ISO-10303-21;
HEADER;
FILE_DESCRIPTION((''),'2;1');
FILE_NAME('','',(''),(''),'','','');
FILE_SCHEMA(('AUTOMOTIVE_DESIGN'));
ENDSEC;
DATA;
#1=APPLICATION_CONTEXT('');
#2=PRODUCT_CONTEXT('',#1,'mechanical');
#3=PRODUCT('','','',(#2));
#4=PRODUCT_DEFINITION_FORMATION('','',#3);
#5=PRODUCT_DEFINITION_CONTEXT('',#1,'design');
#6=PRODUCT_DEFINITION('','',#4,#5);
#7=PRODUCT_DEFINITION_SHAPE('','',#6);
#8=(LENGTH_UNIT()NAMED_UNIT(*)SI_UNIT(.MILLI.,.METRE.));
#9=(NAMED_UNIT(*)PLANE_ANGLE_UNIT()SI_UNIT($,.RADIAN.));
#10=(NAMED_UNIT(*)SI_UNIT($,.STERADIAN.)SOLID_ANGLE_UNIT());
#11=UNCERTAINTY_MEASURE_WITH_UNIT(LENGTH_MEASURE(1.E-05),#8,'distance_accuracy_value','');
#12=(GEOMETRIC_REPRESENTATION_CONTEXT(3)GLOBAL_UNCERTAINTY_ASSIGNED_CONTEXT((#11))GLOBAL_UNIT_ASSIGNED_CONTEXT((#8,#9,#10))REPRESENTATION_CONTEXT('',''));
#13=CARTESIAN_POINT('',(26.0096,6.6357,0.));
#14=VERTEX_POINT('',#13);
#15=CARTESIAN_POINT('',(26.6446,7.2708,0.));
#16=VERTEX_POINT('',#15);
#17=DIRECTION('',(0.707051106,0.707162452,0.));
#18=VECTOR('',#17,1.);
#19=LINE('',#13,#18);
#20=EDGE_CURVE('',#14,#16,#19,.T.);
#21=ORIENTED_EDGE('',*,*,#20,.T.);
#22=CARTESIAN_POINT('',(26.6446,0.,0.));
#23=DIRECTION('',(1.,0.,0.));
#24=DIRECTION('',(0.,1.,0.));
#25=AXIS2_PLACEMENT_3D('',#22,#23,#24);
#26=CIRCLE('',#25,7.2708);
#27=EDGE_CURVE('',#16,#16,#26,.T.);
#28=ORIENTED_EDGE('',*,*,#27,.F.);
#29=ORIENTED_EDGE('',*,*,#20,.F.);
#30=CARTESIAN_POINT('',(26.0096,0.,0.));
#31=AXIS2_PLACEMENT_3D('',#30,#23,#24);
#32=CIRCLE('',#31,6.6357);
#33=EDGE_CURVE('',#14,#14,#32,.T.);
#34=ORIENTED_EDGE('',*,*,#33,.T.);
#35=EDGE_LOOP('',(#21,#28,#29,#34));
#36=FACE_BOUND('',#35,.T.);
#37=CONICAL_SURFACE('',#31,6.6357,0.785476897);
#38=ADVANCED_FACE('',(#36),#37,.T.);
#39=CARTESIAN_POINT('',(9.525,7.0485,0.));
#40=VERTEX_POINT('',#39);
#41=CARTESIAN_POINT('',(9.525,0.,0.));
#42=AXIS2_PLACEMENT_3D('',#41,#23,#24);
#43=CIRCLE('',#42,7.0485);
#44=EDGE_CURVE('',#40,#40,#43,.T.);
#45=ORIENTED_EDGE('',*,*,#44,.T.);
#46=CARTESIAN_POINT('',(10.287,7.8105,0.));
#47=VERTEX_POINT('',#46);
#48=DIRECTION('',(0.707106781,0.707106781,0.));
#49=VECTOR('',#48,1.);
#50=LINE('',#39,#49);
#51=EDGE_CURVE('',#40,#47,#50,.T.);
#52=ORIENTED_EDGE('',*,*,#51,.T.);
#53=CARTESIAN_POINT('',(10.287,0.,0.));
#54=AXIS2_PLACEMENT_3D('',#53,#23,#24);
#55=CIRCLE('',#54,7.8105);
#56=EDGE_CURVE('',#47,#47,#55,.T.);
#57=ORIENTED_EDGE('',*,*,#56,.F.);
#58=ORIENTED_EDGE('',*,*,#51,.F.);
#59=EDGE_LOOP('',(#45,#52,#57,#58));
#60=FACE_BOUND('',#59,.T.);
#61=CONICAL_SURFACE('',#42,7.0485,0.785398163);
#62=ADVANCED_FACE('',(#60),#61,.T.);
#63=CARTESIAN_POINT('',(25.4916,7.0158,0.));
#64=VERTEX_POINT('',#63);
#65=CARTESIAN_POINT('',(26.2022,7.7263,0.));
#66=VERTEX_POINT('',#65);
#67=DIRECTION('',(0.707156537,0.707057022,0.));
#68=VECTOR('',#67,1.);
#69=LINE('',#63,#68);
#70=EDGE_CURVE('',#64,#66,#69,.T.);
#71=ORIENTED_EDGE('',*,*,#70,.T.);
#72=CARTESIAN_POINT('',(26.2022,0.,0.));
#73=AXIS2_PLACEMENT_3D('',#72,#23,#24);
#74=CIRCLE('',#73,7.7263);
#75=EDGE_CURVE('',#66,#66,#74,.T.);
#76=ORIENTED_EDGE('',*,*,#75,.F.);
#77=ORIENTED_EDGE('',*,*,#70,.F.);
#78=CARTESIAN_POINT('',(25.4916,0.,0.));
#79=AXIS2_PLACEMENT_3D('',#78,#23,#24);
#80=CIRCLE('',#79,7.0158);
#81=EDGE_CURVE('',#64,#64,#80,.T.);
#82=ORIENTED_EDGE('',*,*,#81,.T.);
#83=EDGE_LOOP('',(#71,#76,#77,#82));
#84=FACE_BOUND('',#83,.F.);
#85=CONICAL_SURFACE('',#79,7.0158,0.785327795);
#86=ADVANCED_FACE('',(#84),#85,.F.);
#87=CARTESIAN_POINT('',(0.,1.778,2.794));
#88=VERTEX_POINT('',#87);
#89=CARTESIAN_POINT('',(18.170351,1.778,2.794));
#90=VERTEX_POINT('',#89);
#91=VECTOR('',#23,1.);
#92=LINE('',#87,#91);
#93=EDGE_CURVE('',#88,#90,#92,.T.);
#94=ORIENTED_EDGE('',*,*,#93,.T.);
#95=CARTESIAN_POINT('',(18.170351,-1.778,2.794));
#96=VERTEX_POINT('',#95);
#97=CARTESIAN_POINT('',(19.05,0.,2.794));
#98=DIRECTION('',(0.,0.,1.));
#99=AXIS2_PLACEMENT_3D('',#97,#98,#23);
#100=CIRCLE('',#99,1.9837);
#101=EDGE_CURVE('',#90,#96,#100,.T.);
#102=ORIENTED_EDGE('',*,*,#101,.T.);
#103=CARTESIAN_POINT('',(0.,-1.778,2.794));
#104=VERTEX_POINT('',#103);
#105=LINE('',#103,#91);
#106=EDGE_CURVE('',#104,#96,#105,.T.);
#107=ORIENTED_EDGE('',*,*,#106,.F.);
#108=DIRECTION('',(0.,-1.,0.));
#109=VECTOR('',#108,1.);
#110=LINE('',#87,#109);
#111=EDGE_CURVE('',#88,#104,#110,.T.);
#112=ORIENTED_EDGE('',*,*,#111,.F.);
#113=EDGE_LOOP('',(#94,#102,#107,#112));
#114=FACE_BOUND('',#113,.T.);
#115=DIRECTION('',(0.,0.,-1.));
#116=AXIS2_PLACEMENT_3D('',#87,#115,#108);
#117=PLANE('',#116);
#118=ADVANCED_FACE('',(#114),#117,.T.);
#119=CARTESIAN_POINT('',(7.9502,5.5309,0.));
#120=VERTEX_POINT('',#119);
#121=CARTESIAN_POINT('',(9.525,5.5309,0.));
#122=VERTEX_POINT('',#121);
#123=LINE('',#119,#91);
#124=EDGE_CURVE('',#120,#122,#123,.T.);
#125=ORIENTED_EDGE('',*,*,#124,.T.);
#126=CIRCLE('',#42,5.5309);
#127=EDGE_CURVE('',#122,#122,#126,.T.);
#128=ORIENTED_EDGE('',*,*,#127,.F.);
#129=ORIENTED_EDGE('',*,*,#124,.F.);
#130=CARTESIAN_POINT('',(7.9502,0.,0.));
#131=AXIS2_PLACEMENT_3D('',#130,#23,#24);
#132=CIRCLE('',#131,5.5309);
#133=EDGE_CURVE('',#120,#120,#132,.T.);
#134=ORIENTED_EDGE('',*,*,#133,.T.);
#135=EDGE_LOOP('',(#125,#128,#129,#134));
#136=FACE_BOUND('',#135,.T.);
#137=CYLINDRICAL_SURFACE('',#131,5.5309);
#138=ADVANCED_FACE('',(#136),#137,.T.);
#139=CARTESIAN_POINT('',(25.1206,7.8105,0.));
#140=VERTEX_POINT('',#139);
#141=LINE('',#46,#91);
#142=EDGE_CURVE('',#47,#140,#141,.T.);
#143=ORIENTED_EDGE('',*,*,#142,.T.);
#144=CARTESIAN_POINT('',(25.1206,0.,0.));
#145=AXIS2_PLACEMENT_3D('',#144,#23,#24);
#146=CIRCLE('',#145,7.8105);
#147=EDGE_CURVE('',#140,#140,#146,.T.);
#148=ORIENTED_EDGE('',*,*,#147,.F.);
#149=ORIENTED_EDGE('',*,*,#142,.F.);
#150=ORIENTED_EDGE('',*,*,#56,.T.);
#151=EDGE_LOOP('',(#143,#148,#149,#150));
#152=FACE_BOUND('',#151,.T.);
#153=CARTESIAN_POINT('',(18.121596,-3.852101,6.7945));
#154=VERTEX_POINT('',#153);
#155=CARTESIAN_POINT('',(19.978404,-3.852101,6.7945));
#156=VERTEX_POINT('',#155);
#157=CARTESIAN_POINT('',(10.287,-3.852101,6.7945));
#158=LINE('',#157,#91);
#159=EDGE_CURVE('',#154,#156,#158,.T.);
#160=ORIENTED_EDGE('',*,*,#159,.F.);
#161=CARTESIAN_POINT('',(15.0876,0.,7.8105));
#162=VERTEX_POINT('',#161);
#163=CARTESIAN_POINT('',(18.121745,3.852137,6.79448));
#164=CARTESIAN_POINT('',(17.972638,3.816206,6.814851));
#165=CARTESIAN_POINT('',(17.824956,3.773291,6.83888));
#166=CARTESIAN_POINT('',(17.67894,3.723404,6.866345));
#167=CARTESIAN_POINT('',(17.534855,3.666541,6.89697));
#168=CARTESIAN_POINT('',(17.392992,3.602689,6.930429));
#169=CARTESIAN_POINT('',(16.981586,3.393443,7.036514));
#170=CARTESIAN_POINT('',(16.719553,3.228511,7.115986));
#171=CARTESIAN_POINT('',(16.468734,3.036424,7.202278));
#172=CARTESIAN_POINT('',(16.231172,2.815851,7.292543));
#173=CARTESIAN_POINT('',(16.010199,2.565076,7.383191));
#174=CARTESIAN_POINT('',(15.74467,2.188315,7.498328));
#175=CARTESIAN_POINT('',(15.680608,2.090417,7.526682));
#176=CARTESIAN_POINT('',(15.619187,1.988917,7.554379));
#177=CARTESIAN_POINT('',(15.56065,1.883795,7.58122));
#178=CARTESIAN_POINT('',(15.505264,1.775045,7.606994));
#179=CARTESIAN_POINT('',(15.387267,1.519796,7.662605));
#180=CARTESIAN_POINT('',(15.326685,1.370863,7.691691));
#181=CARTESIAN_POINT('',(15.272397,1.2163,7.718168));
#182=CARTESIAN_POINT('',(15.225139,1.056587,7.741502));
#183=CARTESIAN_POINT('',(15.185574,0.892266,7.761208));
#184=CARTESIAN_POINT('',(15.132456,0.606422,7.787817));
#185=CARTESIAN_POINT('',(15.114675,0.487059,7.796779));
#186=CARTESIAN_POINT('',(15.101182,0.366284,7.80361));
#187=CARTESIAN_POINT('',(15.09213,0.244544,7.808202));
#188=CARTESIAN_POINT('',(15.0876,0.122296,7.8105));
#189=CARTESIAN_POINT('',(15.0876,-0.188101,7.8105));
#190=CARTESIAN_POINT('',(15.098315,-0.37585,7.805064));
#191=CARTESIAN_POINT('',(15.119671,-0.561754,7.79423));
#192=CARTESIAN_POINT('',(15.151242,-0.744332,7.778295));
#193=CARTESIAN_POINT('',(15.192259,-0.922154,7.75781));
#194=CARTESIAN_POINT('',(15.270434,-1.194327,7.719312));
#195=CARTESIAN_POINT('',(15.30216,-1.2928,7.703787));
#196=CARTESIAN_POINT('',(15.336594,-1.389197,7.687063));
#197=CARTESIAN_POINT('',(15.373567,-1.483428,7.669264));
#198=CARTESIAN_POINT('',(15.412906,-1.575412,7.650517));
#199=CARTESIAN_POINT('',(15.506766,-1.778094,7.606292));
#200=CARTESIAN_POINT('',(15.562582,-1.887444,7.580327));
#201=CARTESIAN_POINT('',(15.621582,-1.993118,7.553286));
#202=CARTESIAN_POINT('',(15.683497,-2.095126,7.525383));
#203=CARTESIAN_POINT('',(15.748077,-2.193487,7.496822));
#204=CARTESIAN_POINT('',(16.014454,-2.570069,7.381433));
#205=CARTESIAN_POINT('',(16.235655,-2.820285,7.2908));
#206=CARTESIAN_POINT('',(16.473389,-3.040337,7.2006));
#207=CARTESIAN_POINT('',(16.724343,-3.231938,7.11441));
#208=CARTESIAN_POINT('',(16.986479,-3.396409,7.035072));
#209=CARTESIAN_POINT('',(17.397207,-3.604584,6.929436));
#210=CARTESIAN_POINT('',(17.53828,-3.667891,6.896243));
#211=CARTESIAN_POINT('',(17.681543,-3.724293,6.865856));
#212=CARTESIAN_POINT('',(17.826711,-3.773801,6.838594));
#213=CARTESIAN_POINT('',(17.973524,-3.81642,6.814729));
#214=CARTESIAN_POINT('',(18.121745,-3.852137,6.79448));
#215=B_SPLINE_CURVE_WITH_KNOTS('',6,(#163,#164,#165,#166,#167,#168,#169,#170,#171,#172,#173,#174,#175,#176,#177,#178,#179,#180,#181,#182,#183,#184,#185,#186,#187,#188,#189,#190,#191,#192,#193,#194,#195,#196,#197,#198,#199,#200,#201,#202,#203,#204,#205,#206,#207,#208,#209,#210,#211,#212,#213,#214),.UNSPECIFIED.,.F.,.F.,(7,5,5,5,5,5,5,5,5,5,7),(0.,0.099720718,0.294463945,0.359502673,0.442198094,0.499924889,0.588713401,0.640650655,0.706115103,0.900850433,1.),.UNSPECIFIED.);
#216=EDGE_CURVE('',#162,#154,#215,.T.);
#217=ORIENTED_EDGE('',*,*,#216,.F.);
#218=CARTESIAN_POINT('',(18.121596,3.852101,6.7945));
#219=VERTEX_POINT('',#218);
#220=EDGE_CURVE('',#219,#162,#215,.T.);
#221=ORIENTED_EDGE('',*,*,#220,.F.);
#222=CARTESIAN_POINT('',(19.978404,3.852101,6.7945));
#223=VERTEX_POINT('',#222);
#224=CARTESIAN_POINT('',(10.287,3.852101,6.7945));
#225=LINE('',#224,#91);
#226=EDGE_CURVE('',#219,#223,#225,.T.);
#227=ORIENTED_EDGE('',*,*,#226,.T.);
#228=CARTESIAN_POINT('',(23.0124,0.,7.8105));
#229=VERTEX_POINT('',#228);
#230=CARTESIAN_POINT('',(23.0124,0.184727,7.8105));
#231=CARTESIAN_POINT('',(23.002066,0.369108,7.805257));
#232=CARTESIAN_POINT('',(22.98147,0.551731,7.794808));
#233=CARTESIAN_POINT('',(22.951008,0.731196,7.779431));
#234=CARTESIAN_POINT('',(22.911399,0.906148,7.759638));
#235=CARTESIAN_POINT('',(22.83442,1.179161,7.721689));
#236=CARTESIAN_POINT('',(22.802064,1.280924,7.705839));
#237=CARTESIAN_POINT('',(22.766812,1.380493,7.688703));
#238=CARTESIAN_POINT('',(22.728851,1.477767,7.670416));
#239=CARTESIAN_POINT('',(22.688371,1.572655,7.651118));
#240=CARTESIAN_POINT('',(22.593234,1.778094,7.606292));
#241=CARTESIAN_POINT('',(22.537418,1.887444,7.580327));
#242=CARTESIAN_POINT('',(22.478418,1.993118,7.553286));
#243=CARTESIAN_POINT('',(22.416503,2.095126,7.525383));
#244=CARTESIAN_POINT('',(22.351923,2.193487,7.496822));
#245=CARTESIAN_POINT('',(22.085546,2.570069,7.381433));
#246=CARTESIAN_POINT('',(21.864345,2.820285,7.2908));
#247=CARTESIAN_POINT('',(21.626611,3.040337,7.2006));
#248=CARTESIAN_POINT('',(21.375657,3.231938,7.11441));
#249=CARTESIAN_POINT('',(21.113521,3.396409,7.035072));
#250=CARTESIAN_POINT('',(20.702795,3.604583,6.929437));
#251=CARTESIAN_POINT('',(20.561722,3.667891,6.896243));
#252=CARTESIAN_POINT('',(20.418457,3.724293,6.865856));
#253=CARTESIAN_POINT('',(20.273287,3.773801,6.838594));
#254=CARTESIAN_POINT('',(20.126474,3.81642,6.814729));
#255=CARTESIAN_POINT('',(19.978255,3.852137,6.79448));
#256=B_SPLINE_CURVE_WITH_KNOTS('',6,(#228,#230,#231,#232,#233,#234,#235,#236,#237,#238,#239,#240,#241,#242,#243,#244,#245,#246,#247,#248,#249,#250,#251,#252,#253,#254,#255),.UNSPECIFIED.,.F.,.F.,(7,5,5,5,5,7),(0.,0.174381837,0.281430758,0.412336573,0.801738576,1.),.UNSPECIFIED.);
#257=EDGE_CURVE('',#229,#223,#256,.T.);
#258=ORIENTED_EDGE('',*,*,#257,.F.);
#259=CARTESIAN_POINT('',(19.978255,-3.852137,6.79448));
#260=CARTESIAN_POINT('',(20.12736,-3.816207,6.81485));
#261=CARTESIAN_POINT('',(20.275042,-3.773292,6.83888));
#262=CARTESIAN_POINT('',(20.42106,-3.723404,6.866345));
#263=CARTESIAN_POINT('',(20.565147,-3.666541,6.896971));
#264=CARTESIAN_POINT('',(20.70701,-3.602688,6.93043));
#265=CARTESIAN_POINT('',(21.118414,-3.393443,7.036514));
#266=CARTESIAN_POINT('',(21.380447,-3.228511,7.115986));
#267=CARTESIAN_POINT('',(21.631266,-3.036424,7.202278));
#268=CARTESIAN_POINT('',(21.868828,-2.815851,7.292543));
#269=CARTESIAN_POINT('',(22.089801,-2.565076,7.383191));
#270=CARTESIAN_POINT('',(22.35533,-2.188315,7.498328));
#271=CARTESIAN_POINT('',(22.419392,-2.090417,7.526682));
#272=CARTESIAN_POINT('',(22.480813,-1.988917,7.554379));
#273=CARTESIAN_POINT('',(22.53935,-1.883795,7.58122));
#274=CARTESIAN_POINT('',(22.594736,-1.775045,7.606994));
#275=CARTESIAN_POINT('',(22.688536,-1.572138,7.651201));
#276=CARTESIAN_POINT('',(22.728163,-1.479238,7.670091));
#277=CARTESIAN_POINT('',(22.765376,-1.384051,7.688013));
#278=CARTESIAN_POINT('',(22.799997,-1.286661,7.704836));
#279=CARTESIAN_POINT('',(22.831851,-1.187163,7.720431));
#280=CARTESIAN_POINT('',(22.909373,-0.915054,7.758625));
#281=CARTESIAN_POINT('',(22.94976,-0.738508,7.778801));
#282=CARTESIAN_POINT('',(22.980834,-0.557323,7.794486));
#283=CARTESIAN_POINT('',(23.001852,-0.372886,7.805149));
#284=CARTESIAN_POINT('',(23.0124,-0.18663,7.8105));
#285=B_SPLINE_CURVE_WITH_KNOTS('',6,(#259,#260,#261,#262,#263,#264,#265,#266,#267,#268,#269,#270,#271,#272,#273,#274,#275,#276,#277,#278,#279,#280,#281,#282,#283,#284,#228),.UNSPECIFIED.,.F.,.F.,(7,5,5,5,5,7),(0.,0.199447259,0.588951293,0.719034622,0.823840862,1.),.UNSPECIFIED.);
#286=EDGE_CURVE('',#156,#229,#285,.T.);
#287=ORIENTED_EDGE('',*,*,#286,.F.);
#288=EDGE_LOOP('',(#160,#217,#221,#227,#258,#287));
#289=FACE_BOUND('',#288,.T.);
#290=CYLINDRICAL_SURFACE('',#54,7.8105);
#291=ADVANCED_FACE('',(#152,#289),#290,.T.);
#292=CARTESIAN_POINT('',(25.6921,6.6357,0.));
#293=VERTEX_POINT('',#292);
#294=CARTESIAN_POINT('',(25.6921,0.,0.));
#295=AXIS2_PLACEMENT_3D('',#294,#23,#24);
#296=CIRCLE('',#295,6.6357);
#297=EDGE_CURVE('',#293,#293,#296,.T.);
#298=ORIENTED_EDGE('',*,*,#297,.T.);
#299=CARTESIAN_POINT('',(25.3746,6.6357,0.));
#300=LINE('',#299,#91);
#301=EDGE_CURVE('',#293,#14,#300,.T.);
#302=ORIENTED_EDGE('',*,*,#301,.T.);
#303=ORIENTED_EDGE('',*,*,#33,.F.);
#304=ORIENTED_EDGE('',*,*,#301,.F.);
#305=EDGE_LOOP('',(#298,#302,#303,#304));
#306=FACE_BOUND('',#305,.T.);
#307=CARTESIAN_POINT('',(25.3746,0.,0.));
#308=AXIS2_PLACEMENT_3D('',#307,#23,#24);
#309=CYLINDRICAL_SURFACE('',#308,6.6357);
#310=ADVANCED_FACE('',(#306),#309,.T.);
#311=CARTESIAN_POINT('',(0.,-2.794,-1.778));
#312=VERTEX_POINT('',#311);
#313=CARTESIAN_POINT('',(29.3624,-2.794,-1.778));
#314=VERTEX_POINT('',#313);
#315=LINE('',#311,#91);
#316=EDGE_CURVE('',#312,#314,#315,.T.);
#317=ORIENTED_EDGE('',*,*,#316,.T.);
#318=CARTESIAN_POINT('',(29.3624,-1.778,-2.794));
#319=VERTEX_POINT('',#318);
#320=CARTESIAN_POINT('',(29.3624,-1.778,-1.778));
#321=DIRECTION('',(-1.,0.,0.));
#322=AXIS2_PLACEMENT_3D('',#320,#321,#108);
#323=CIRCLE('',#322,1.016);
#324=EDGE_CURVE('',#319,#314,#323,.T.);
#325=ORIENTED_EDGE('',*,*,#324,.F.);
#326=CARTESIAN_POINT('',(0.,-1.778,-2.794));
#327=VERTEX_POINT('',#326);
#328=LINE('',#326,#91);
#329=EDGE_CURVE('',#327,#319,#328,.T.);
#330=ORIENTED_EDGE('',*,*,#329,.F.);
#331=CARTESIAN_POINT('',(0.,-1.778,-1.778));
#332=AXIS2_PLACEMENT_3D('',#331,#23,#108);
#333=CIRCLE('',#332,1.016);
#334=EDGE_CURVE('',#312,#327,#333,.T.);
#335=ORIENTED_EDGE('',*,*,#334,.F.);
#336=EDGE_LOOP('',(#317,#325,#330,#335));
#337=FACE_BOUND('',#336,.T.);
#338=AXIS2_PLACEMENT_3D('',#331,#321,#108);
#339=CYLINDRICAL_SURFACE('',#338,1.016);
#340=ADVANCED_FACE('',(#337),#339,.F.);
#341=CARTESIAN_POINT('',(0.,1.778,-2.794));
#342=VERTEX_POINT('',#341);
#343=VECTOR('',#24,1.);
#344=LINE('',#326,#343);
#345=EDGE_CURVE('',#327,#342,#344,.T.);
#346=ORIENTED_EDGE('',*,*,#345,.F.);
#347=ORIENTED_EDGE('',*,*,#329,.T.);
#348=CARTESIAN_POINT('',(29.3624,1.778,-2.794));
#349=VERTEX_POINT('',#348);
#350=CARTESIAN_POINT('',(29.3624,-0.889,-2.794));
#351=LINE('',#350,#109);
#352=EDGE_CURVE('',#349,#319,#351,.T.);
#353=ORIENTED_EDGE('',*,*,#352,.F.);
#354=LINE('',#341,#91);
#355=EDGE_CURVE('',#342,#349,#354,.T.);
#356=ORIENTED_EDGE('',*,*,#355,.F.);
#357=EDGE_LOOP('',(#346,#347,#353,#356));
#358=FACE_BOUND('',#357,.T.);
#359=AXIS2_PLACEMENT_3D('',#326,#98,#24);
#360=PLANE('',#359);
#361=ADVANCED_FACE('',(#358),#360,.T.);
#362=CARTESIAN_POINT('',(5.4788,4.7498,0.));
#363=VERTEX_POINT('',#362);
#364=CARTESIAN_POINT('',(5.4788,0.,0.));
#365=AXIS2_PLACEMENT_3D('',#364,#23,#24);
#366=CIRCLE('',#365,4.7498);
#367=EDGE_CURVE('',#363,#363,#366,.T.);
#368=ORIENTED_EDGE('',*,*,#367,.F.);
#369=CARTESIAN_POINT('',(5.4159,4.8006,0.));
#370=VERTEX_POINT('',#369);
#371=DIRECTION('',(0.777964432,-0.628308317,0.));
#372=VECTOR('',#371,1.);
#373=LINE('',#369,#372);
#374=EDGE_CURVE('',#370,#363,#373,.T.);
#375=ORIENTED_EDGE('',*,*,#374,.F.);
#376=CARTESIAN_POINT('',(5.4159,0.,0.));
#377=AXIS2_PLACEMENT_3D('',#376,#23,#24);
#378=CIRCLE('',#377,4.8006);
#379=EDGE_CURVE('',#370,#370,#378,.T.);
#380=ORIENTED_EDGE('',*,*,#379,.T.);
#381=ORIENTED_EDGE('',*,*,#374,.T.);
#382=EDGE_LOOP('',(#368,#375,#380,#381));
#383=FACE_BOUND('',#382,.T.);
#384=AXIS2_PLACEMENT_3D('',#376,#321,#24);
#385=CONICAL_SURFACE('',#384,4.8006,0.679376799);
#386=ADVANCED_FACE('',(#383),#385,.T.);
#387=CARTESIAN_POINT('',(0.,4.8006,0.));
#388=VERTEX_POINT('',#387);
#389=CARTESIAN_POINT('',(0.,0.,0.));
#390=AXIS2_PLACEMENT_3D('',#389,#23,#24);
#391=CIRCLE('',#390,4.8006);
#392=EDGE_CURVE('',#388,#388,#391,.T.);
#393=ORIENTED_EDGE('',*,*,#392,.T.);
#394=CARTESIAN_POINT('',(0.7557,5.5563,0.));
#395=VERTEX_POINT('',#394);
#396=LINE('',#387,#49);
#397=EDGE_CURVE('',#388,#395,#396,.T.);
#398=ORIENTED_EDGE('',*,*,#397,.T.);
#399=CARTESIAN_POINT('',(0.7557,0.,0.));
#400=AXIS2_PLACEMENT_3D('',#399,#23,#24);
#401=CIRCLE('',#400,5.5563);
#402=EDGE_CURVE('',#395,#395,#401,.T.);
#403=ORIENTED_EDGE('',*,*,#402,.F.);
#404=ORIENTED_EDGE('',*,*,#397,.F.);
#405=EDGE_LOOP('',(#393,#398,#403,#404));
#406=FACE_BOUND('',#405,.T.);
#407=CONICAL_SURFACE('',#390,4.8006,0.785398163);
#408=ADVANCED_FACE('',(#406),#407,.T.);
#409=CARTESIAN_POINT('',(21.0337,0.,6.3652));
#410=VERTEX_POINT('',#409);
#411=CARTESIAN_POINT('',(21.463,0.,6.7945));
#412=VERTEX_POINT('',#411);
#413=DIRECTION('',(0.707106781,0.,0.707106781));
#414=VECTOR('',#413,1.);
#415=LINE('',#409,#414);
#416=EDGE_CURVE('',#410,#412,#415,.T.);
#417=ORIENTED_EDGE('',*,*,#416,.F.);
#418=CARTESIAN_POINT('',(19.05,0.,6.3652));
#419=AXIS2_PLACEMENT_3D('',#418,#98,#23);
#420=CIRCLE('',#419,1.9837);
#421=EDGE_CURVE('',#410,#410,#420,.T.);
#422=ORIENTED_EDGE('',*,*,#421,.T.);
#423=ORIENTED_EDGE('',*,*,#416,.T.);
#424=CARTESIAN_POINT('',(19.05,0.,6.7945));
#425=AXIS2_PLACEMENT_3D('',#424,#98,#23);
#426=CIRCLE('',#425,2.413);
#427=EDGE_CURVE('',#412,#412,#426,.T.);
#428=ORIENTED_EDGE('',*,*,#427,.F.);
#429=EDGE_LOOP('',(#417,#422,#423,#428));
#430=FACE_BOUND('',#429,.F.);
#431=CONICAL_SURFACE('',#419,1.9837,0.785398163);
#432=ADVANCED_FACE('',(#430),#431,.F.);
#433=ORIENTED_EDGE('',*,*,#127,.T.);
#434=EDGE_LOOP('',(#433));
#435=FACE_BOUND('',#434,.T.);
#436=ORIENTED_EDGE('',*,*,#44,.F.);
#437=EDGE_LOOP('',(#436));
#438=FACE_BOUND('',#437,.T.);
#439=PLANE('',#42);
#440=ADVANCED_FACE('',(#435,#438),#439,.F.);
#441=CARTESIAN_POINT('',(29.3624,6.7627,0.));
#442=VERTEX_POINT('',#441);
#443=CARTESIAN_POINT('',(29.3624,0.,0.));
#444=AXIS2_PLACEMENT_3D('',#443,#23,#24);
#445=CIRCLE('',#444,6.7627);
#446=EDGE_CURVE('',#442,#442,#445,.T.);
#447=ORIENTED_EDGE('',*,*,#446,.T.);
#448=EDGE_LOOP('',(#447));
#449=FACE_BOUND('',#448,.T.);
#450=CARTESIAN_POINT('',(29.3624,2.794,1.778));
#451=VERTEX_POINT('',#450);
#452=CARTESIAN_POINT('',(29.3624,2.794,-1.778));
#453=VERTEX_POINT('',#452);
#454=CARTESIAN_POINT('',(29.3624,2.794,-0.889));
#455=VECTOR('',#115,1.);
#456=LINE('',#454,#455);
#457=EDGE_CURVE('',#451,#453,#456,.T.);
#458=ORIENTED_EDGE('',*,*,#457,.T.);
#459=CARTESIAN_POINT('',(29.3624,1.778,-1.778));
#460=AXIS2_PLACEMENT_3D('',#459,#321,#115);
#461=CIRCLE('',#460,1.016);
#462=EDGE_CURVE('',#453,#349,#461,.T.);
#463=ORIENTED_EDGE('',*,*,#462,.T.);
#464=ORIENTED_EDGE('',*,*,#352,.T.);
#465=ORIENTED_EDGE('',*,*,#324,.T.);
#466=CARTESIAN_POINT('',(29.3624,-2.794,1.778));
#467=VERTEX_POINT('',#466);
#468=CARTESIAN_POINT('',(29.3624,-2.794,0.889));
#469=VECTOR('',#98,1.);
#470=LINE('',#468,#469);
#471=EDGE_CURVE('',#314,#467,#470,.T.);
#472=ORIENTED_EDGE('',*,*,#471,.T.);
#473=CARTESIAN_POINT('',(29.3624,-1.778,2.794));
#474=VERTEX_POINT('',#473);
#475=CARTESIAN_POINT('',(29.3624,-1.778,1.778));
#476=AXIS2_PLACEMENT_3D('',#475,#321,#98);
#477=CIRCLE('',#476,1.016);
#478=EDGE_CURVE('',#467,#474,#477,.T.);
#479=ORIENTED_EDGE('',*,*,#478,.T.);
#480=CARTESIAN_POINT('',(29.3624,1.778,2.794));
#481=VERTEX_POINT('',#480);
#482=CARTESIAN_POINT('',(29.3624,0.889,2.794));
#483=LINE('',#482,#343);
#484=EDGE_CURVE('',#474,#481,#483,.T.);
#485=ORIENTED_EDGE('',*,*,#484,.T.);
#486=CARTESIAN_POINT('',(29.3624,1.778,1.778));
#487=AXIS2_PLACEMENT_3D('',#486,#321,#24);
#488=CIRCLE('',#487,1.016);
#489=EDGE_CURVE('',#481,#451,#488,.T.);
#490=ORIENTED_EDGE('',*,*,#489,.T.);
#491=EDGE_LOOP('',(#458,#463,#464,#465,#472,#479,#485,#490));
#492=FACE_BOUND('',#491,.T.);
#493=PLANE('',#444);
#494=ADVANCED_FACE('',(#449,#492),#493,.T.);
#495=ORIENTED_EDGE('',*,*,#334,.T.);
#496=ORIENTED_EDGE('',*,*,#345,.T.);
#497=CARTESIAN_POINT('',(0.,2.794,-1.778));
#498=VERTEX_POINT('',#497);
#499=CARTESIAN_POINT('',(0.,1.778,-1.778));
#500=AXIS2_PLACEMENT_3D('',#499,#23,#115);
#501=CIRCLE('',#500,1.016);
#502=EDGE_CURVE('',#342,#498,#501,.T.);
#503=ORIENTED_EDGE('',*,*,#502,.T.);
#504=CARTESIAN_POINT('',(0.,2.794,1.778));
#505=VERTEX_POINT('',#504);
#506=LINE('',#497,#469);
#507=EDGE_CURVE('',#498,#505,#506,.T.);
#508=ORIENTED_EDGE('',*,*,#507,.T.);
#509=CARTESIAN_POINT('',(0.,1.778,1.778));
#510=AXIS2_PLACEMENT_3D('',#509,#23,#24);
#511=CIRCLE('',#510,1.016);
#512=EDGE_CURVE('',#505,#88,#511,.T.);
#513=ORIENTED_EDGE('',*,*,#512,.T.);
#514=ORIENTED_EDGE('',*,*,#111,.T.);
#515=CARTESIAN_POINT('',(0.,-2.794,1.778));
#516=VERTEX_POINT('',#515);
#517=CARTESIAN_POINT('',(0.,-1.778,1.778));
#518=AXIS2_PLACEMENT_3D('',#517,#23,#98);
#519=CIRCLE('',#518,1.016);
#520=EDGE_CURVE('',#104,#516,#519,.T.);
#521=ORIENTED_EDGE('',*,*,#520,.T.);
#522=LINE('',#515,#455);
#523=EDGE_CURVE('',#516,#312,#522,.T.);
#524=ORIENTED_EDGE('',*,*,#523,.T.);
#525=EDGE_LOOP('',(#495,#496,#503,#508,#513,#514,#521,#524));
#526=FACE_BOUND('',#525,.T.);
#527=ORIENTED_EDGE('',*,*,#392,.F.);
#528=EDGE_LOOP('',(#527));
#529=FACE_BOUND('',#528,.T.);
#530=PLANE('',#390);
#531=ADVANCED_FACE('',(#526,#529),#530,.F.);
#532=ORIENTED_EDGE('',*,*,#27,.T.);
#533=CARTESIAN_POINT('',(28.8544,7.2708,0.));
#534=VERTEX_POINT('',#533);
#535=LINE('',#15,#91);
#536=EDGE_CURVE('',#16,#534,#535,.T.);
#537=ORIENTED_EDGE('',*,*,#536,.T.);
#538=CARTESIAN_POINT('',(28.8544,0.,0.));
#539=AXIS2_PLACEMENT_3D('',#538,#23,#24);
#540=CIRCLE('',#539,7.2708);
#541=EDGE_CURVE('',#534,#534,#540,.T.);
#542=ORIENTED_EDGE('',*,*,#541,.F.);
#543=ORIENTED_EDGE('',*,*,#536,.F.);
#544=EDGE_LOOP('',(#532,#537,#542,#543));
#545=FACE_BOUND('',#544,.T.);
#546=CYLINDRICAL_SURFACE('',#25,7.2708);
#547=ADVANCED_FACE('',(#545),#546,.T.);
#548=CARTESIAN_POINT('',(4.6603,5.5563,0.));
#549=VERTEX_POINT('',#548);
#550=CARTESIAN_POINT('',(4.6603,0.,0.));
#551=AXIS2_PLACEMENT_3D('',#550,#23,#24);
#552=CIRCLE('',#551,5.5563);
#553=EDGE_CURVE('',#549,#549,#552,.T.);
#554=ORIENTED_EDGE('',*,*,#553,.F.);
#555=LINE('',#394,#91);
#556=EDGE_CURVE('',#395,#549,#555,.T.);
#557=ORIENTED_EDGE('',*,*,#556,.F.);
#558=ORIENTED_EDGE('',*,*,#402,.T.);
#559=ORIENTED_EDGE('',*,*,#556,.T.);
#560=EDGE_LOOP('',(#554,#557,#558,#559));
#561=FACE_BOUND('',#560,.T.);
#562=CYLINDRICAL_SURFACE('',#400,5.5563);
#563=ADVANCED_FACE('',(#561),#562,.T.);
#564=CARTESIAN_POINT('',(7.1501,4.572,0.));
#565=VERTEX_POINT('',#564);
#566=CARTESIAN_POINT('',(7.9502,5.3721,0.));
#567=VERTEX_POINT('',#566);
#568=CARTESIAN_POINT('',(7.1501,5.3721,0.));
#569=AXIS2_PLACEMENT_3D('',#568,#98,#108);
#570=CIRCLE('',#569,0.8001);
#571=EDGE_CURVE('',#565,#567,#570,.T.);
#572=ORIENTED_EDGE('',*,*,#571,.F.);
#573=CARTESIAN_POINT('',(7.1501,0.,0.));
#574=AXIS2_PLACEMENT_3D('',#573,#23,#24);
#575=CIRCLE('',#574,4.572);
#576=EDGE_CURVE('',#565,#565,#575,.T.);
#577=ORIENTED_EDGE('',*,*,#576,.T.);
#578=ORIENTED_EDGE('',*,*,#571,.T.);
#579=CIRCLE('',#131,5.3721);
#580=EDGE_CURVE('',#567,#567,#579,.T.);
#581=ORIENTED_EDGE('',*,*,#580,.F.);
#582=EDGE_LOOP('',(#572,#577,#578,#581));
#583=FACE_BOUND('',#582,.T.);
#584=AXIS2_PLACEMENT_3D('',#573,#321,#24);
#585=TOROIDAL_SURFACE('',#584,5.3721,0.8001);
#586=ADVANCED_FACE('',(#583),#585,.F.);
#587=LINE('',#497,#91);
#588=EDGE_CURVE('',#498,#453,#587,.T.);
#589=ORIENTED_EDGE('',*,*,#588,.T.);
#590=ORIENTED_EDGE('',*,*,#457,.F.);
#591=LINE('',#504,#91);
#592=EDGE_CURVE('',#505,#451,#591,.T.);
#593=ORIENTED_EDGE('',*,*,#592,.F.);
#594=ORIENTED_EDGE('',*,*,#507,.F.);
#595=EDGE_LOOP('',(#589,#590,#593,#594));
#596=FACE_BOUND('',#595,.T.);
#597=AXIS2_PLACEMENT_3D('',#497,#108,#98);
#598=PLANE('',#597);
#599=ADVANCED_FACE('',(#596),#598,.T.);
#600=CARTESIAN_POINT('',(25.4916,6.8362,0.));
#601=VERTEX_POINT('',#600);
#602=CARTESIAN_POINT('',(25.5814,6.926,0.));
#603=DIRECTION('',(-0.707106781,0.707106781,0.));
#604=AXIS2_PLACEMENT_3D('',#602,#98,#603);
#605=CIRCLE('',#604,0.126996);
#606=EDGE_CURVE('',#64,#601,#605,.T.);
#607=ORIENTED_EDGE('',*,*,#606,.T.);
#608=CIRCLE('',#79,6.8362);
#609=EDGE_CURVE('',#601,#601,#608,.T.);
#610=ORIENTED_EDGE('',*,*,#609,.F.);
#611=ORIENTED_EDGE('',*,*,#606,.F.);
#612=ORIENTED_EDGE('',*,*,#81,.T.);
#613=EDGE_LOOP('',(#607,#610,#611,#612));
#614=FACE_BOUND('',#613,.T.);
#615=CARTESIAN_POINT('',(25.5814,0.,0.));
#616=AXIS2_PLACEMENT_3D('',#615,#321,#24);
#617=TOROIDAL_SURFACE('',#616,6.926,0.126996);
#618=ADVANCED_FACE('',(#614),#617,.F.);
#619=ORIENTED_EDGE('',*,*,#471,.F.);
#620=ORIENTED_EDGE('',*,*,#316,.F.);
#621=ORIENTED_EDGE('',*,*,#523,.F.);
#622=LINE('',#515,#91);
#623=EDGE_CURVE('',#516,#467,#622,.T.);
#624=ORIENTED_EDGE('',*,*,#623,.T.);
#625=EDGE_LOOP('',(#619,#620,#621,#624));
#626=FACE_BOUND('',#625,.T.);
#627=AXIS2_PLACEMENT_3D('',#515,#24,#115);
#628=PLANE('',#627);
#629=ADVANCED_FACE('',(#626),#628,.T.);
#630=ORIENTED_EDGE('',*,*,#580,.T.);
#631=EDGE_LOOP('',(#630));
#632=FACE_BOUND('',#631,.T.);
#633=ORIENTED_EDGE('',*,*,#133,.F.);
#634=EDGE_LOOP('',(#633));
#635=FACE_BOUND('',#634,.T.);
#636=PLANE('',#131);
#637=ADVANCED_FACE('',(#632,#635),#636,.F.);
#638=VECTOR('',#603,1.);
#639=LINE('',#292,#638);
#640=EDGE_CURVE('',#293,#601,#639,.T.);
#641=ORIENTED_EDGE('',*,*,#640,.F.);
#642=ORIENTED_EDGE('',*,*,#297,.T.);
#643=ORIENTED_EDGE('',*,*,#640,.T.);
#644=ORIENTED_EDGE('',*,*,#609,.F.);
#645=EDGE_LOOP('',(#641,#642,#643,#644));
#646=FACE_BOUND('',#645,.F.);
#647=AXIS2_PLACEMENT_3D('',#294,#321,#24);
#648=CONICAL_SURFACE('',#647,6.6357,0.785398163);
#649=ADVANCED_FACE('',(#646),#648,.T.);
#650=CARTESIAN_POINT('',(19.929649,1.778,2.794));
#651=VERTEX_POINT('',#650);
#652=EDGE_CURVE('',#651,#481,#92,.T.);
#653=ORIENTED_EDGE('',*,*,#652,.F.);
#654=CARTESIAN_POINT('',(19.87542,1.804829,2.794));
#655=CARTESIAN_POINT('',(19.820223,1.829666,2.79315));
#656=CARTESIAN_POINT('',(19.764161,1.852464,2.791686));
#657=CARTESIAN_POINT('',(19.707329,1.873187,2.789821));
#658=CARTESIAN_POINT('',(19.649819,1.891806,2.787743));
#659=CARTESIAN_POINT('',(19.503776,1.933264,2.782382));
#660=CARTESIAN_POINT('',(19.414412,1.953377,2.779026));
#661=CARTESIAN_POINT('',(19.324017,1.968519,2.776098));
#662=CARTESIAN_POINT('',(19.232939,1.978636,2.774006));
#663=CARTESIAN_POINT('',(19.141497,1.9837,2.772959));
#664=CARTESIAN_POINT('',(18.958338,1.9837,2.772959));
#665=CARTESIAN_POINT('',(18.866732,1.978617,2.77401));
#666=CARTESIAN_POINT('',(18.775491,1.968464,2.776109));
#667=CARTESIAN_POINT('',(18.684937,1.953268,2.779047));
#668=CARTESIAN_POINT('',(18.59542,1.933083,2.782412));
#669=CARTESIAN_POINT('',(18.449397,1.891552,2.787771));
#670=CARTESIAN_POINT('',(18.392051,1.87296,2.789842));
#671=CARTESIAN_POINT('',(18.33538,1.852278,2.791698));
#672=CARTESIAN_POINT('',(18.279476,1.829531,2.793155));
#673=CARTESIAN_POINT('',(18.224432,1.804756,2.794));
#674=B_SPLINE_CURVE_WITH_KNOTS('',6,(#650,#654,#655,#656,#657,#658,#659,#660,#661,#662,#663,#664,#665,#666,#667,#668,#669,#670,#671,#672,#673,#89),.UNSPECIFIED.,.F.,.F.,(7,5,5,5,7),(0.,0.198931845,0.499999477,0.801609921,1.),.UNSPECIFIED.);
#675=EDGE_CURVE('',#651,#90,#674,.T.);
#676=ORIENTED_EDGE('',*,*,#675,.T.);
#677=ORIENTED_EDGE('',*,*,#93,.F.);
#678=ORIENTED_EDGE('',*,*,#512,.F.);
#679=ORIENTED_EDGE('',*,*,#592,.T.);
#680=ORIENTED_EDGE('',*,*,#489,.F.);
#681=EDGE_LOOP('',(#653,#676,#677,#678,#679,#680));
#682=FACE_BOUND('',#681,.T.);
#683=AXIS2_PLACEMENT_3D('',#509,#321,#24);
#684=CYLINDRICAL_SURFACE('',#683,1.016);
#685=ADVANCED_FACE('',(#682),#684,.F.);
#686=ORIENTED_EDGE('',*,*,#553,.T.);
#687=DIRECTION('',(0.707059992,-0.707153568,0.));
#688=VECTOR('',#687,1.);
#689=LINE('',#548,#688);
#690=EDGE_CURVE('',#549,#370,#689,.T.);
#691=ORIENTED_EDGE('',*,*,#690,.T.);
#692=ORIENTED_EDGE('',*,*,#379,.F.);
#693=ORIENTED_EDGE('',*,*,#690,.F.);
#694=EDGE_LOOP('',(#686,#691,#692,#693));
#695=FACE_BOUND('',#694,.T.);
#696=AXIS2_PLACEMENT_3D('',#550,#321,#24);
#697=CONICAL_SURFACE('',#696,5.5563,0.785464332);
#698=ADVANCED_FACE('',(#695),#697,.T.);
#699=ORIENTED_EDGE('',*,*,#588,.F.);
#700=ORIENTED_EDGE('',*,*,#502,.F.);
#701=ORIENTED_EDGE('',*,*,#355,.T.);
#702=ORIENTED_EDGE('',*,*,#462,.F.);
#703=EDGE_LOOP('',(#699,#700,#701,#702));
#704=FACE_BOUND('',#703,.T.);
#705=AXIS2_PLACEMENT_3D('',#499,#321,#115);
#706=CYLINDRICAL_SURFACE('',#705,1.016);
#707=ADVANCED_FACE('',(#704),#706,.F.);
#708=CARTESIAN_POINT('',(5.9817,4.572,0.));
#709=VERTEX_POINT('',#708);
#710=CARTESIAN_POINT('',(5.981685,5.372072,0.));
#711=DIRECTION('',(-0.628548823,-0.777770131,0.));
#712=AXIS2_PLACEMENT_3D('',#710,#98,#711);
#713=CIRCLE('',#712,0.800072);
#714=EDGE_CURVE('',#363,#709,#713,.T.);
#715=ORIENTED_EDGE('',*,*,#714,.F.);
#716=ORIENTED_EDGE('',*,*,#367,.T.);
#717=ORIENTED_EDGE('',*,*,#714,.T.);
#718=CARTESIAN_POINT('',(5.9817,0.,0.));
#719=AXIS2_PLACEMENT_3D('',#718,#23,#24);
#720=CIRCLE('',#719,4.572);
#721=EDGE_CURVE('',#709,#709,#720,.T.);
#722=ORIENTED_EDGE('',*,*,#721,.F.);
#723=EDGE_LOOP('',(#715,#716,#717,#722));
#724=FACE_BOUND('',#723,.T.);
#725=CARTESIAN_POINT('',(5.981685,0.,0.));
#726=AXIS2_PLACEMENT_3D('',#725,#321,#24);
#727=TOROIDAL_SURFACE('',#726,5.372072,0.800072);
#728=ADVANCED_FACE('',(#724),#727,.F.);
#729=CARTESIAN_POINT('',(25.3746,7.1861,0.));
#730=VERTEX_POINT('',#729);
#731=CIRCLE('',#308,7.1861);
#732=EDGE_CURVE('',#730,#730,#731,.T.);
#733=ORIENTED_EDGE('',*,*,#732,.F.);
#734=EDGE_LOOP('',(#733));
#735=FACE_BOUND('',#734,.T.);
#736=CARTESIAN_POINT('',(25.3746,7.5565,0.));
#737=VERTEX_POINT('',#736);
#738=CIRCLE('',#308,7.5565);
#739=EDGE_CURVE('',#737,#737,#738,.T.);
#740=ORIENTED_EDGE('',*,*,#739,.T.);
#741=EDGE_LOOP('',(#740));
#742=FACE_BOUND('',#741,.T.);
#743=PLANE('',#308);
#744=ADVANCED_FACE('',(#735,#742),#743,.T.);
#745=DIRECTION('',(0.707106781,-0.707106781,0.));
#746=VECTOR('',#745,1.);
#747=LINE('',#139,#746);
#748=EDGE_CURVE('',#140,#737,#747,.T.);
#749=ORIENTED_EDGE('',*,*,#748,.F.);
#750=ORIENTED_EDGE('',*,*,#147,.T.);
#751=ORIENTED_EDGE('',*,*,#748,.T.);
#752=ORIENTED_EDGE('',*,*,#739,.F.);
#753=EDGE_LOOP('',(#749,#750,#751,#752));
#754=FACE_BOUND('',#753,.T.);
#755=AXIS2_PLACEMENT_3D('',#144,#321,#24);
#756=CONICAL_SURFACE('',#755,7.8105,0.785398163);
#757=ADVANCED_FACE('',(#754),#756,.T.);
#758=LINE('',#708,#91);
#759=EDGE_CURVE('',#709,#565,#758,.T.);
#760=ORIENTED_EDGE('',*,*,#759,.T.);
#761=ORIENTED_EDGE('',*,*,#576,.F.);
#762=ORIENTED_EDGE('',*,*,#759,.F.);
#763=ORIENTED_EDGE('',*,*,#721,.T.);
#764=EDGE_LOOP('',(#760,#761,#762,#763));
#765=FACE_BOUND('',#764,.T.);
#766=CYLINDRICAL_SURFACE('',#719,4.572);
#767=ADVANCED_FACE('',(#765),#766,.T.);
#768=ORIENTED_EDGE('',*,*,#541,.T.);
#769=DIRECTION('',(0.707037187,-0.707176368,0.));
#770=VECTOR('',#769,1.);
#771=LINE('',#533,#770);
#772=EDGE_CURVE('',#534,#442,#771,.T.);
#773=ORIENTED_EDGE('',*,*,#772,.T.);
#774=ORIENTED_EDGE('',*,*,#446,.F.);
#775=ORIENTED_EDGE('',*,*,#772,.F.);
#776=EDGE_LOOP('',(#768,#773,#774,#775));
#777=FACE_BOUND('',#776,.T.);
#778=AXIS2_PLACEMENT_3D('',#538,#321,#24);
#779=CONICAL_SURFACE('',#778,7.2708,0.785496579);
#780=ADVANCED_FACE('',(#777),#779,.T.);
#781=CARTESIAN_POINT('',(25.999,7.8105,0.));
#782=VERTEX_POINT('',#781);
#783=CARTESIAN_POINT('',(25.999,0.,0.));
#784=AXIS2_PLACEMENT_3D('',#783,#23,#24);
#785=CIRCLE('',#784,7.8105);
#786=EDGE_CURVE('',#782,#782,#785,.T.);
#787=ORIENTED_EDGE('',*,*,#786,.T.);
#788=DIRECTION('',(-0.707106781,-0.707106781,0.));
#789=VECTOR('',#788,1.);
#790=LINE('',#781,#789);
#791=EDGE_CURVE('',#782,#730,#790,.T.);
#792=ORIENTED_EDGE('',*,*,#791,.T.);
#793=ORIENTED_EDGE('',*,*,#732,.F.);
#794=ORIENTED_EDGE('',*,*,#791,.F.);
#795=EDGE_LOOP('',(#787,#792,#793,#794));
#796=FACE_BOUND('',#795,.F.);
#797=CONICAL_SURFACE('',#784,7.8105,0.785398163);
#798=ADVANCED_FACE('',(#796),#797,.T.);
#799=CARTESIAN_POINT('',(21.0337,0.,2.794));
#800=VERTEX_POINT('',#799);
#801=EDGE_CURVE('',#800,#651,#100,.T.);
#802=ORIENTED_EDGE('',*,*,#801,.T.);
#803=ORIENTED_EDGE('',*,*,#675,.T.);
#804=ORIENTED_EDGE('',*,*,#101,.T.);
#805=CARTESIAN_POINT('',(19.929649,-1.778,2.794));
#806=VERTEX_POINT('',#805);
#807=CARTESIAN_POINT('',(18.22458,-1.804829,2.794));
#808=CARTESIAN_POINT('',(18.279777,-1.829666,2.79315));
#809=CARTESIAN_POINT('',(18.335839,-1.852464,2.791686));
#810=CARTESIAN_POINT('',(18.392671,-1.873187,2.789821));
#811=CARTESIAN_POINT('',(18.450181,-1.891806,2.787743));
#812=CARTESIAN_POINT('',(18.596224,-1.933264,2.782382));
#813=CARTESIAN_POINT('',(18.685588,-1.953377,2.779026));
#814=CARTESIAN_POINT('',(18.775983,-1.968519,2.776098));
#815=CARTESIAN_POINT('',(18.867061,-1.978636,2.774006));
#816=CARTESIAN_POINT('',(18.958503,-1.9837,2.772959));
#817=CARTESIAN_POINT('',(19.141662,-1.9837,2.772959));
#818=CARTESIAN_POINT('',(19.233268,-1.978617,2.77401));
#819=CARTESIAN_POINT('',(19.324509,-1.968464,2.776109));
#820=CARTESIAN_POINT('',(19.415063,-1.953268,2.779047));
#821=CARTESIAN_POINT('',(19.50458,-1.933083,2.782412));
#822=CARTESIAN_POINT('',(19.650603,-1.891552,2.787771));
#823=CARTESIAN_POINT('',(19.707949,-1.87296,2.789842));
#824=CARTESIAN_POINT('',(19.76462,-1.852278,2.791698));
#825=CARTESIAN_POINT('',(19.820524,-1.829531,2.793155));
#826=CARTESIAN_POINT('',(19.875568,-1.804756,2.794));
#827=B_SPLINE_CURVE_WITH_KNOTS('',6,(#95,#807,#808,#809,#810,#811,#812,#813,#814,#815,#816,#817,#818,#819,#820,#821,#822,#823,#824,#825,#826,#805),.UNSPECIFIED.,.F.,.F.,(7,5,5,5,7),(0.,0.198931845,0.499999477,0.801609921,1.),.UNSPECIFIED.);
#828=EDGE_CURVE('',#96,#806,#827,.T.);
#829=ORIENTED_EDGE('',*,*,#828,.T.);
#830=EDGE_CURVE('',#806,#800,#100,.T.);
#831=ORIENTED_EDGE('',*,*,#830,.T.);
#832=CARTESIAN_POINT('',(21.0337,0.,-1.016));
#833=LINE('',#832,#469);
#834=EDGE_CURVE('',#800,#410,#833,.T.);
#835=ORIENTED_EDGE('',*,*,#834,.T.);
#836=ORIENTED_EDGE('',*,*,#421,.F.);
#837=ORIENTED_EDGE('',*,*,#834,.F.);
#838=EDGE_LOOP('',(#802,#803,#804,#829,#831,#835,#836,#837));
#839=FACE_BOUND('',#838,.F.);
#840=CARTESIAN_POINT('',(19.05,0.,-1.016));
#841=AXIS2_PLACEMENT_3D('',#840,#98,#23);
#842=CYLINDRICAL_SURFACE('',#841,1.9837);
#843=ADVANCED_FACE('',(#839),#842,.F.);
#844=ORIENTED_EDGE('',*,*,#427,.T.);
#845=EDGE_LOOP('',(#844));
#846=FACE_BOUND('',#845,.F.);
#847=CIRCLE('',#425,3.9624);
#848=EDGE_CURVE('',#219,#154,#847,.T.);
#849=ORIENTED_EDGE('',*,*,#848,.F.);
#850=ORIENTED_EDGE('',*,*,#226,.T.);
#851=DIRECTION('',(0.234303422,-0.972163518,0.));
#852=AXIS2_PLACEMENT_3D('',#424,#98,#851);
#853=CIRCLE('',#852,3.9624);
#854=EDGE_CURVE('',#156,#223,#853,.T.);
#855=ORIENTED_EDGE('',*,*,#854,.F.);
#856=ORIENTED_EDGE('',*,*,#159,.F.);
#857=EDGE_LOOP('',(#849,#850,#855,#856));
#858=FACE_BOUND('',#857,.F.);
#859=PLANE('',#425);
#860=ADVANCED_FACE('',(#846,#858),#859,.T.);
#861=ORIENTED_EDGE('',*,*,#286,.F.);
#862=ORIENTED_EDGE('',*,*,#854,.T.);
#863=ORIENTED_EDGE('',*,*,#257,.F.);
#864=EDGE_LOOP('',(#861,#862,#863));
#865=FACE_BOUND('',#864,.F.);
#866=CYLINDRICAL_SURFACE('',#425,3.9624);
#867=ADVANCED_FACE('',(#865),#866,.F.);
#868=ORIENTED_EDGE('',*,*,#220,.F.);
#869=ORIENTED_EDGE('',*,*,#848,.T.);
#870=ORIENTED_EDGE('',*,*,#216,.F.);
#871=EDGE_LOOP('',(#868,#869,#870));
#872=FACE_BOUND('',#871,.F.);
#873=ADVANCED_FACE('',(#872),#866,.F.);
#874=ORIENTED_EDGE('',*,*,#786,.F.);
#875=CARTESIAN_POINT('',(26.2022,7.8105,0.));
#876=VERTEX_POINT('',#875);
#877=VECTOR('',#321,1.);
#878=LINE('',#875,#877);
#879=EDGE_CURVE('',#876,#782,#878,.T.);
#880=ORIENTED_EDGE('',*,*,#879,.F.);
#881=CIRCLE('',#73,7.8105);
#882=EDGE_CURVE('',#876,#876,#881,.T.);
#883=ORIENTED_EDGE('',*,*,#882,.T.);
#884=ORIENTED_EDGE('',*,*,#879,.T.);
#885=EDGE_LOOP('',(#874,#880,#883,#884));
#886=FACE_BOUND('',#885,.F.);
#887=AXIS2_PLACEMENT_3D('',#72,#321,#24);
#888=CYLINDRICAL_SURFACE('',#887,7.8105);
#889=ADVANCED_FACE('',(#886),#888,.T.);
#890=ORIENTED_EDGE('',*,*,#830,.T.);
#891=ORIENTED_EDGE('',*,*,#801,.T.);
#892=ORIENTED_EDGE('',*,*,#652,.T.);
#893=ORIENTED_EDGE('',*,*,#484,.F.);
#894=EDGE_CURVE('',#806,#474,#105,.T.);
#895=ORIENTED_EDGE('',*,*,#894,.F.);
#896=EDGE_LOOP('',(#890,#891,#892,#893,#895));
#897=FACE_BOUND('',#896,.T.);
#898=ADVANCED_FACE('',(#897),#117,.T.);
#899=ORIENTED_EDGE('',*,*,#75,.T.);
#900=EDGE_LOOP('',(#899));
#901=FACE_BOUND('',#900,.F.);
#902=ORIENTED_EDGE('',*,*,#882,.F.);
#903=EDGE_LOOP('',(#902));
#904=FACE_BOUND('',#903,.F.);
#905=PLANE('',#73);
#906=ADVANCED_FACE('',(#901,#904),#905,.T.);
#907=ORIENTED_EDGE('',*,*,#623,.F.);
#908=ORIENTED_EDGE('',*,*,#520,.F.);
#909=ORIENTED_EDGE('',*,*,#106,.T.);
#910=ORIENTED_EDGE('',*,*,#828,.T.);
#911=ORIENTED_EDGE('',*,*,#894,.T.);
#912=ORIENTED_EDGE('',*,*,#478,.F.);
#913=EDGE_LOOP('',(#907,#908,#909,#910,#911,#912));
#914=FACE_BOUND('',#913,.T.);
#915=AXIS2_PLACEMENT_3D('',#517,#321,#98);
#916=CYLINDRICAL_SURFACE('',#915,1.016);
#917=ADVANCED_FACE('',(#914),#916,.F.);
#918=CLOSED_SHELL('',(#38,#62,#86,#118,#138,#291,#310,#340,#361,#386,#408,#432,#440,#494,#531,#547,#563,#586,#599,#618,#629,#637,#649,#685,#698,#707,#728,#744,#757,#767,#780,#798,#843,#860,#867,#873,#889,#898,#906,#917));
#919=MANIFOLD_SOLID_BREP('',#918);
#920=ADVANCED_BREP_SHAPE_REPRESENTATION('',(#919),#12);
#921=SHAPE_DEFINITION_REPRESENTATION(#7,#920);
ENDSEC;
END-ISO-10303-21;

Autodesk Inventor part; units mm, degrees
sketch "Sketch_2" plane through (0, 0, 0) normal (0, 0, 1) x (1, 0, 0)
  line L0 (9.525, 0) -> (0, 0)
  line L1 (0, 0) -> (0, 4.8006)
  line L2 (0, 4.8006) -> (0.7557, 5.5563)
  line L3 (0.7557, 5.5563) -> (4.6603, 5.5563)
  line L4 (4.6603, 5.5563) -> (5.4159, 4.8006)
  line L5 (5.4159, 4.8006) -> (5.4788, 4.7498)
  arc A0 (5.4788, 4.7498) -> (5.9817, 4.572) centre (5.9817, 5.3721) ccw
  line L6 (5.9817, 4.572) -> (7.1501, 4.572)
  arc A1 (7.1501, 4.572) -> (7.9502, 5.3721) centre (7.1501, 5.3721) ccw
  line L7 (7.9502, 5.3721) -> (7.9502, 5.5309)
  line L8 (7.9502, 5.5309) -> (9.525, 5.5309)
  line L9 (9.525, 5.5309) -> (9.525, 0)
  line L10 (9.525, 0) -> (0, 0)
revolve "Revolution1" add sketch "Sketch_2" angle 360 about axis through (9.525, 0, 0) along (1, 0, 0)
thread "Thread1" size "7/16-20 UNF" class "2A" standard "ANSI Unified Screw Threads" full length
sketch "Sketch_3" plane through (0, 0, 0) normal (0, 0, 1) x (1, 0, 0)
  line L0 (29.3624, 0) -> (9.525, 0)
  line L1 (9.525, 0) -> (9.525, 7.0485)
  line L2 (9.525, 7.0485) -> (10.287, 7.8105)
  line L3 (10.287, 7.8105) -> (25.1206, 7.8105)
  line L4 (25.1206, 7.8105) -> (25.3746, 7.5565)
  line L5 (25.3746, 7.5565) -> (25.3746, 6.6357)
  line L6 (25.3746, 6.6357) -> (26.0096, 6.6357)
  line L7 (26.0096, 6.6357) -> (26.6446, 7.2708)
  line L8 (26.6446, 7.2708) -> (28.8544, 7.2708)
  line L9 (28.8544, 7.2708) -> (29.3624, 6.7627)
  line L10 (29.3624, 6.7627) -> (29.3624, 0)
  line L11 (29.3624, 0) -> (9.525, 0)
revolve "Revolution2" add sketch "Sketch_3" angle 360 about axis through (29.3624, 0, 0) along (1, 0, 0)
sketch "Sketch_12" plane through (0, 0, 0) normal (0, 1, 0) x (-1, 0, 0)
  line L0 (-19.05, 7.8105) -> (-19.05, -1.016)
  line L1 (-19.05, -1.016) -> (-21.0337, -1.016)
  line L2 (-21.0337, -1.016) -> (-21.0337, 6.3652)
  line L3 (-21.0337, 6.3652) -> (-21.463, 6.7945)
  line L4 (-21.463, 6.7945) -> (-23.0124, 6.7945)
  line L5 (-23.0124, 6.7945) -> (-23.0124, 7.8105)
  line L6 (-23.0124, 7.8105) -> (-19.05, 7.8105)
  line L7 (-19.05, 7.8105) -> (-19.05, -1.016)
revolve "Revolution3" cut sketch "Sketch_12" angle 360 about axis through (19.05, 0, 7.8105) along (0, 0, 1)
thread "Thread2" size "10-32 UNF" class "2B" standard "ANSI Unified Screw Threads" length 2.4257 offset 5.3848
sketch "Sketch_47" plane through (0, 0, 0) normal (0, 0, 1) x (1, 0, 0)
  line L0 (26.0096, 0) -> (25.3746, 0)
  line L1 (25.3746, 6.3818) -> (26.0096, 6.3818)
  line L2 (26.0096, 6.3818) -> (26.0096, 6.6357)
  line L3 (26.0096, 6.6357) -> (25.6921, 6.6357)
  line L4 (25.6921, 6.6357) -> (25.4916, 6.8362)
  arc A0 (25.4916, 7.0158) -> (25.4916, 6.8362) centre (25.5814, 6.926) ccw
  line L5 (25.4916, 7.0158) -> (26.2022, 7.7263)
  line L6 (26.2022, 7.7263) -> (26.2022, 7.8105)
  line L7 (26.2022, 7.8105) -> (25.999, 7.8105)
  line L8 (25.999, 7.8105) -> (25.3746, 7.1861)
  line L9 (25.3746, 7.1861) -> (25.3746, 6.3818)
revolve "Revolution4" add sketch "Sketch_47" angle 360 about axis through (26.0096, 0, 0) along (1, 0, 0)
sketch "Sketch_33" plane through (0, 0, 0) normal (1, 0, 0) x (0, 1, 0)
  line L0 (1.778, 2.794) -> (-1.778, 2.794)
  arc A0 (-1.778, 2.794) -> (-2.794, 1.778) centre (-1.778, 1.778) ccw
  line L1 (-2.794, 1.778) -> (-2.794, -1.778)
  arc A1 (-2.794, -1.778) -> (-1.778, -2.794) centre (-1.778, -1.778) ccw
  line L2 (-1.778, -2.794) -> (1.778, -2.794)
  arc A2 (1.778, -2.794) -> (2.794, -1.778) centre (1.778, -1.778) ccw
  line L3 (2.794, -1.778) -> (2.794, 1.778)
  arc A3 (2.794, 1.778) -> (1.778, 2.794) centre (1.778, 1.778) ccw
extrude "Extrusion1" cut sketch "Sketch_33" along normal blind 58.7248
ref_plane "m1_XY" through (0, 5.5563, 0) normal (0, 0, 1) x (1, 0, 0)
ref_plane "m1_YZ" through (0, 5.5563, 0) normal (1, 0, 0) x (0, 1, 0)
ref_plane "m1_ZX" through (0, 5.5563, 0) normal (0, 1, 0) x (0, 0, 1)
ref_plane "m2_XY" through (0, -5.5563, 0) normal (0, 0, 1) x (1, 0, 0)
ref_plane "m2_YZ" through (0, -5.5563, 0) normal (1, 0, 0) x (0, 1, 0)
ref_plane "m2_ZX" through (0, -5.5563, 0) normal (0, 1, 0) x (0, 0, 1)
ref_plane "s1_XY" through (7.9502, 0, 0) normal (0, 0, 1) x (1, 0, 0)
ref_plane "s1_YZ" through (7.9502, 0, 0) normal (1, 0, 0) x (0, 1, 0)
ref_plane "s1_ZX" through (7.9502, 0, 0) normal (0, 1, 0) x (0, 0, 1)
ref_plane "s2_XY" through (9.525, 0, 0) normal (0, 0, 1) x (1, 0, 0)
ref_plane "s2_YZ" through (9.525, 0, 0) normal (1, 0, 0) x (0, 1, 0)
ref_plane "s2_ZX" through (9.525, 0, 0) normal (0, 1, 0) x (0, 0, 1)
ref_plane "dp1_XY" through (9.525, 5.5309, 0) normal (0, 0, 1) x (1, 0, 0)
ref_plane "dp1_YZ" through (9.525, 5.5309, 0) normal (1, 0, 0) x (0, 1, 0)
ref_plane "dp1_ZX" through (9.525, 5.5309, 0) normal (0, 1, 0) x (0, 0, 1)
ref_plane "dp2_XY" through (9.525, -5.5309, 0) normal (0, 0, 1) x (1, 0, 0)
ref_plane "dp2_YZ" through (9.525, -5.5309, 0) normal (1, 0, 0) x (0, 1, 0)
ref_plane "dp2_ZX" through (9.525, -5.5309, 0) normal (0, 1, 0) x (0, 0, 1)
ref_plane "rod_guide_XY" through (0, 0, 0) normal (1, 0, 0) x (0, 0, -1)
ref_plane "rod_guide_YZ" through (0, 0, 0) normal (0, 0, -1) x (0, 1, 0)
ref_plane "rod_guide_ZX" through (0, 0, 0) normal (0, 1, 0) x (1, 0, 0)
ref_plane "to_tube_XY" through (26.0096, 0, 0) normal (1, 0, 0) x (0, 0, -1)
ref_plane "to_tube_YZ" through (26.0096, 0, 0) normal (0, 0, -1) x (0, 1, 0)
ref_plane "to_tube_ZX" through (26.0096, 0, 0) normal (0, 1, 0) x (1, 0, 0)
ref_plane "to_foot_bracket_XY" through (9.525, 0, 0) normal (1, 0, 0) x (0, 0, -1)
ref_plane "to_foot_bracket_YZ" through (9.525, 0, 0) normal (0, 0, -1) x (0, 1, 0)
ref_plane "to_foot_bracket_ZX" through (9.525, 0, 0) normal (0, 1, 0) x (1, 0, 0)
ref_plane "to_nut_XY" through (9.525, 0, 0) normal (1, 0, 0) x (0, 0, -1)
ref_plane "to_nut_YZ" through (9.525, 0, 0) normal (0, 0, -1) x (0, 1, 0)
ref_plane "to_nut_ZX" through (9.525, 0, 0) normal (0, 1, 0) x (1, 0, 0)
ref_plane "to_trunnion_brackets_XY" through (0, 0, 0) normal (0, 1, 0) x (1, 0, 0)
ref_plane "to_trunnion_brackets_YZ" through (0, 0, 0) normal (1, 0, 0) x (0, 0, -1)
ref_plane "to_trunnion_brackets_ZX" through (0, 0, 0) normal (0, 0, -1) x (0, 1, 0)
ref_plane "to_trunnion_brackets1_XY" through (0, 0, 0) normal (0, 1, 0) x (1, 0, 0)
ref_plane "to_trunnion_brackets1_YZ" through (0, 0, 0) normal (1, 0, 0) x (0, 0, -1)
ref_plane "to_trunnion_brackets1_ZX" through (0, 0, 0) normal (0, 0, -1) x (0, 1, 0)
ref_plane "to_trunnion_brackets2_XY" through (0, 0, 0) normal (0, 1, 0) x (1, 0, 0)
ref_plane "to_trunnion_brackets2_YZ" through (0, 0, 0) normal (1, 0, 0) x (0, 0, -1)
ref_plane "to_trunnion_brackets2_ZX" through (0, 0, 0) normal (0, 0, -1) x (0, 1, 0)
ref_plane "t1_XY" through (9.525, 0, 0) normal (1, 0, 0) x (0, 0, -1)
ref_plane "t1_YZ" through (9.525, 0, 0) normal (0, 0, -1) x (0, 1, 0)
ref_plane "t1_ZX" through (9.525, 0, 0) normal (0, 1, 0) x (1, 0, 0)
ref_plane "port_XY" through (19.05, 0, 0) normal (0, 0, 1) x (1, 0, 0)
ref_plane "port_YZ" through (19.05, 0, 0) normal (1, 0, 0) x (0, 1, 0)
ref_plane "port_ZX" through (19.05, 0, 0) normal (0, 1, 0) x (0, 0, 1)
ref_plane "rod_guide_1_XY" through (0, 0, 0) normal (1, 0, 0) x (0, 0, -1)
ref_plane "rod_guide_1_YZ" through (0, 0, 0) normal (0, 0, -1) x (0, 1, 0)
ref_plane "rod_guide_1_ZX" through (0, 0, 0) normal (0, 1, 0) x (1, 0, 0)
ref_plane "rod_guide_11_XY" through (0, 0, 0) normal (1, 0, 0) x (0, 0, -1)
ref_plane "rod_guide_11_YZ" through (0, 0, 0) normal (0, 0, -1) x (0, 1, 0)
ref_plane "rod_guide_11_ZX" through (0, 0, 0) normal (0, 1, 0) x (1, 0, 0)
properties part number "02R0101_NR_rod_guide"
